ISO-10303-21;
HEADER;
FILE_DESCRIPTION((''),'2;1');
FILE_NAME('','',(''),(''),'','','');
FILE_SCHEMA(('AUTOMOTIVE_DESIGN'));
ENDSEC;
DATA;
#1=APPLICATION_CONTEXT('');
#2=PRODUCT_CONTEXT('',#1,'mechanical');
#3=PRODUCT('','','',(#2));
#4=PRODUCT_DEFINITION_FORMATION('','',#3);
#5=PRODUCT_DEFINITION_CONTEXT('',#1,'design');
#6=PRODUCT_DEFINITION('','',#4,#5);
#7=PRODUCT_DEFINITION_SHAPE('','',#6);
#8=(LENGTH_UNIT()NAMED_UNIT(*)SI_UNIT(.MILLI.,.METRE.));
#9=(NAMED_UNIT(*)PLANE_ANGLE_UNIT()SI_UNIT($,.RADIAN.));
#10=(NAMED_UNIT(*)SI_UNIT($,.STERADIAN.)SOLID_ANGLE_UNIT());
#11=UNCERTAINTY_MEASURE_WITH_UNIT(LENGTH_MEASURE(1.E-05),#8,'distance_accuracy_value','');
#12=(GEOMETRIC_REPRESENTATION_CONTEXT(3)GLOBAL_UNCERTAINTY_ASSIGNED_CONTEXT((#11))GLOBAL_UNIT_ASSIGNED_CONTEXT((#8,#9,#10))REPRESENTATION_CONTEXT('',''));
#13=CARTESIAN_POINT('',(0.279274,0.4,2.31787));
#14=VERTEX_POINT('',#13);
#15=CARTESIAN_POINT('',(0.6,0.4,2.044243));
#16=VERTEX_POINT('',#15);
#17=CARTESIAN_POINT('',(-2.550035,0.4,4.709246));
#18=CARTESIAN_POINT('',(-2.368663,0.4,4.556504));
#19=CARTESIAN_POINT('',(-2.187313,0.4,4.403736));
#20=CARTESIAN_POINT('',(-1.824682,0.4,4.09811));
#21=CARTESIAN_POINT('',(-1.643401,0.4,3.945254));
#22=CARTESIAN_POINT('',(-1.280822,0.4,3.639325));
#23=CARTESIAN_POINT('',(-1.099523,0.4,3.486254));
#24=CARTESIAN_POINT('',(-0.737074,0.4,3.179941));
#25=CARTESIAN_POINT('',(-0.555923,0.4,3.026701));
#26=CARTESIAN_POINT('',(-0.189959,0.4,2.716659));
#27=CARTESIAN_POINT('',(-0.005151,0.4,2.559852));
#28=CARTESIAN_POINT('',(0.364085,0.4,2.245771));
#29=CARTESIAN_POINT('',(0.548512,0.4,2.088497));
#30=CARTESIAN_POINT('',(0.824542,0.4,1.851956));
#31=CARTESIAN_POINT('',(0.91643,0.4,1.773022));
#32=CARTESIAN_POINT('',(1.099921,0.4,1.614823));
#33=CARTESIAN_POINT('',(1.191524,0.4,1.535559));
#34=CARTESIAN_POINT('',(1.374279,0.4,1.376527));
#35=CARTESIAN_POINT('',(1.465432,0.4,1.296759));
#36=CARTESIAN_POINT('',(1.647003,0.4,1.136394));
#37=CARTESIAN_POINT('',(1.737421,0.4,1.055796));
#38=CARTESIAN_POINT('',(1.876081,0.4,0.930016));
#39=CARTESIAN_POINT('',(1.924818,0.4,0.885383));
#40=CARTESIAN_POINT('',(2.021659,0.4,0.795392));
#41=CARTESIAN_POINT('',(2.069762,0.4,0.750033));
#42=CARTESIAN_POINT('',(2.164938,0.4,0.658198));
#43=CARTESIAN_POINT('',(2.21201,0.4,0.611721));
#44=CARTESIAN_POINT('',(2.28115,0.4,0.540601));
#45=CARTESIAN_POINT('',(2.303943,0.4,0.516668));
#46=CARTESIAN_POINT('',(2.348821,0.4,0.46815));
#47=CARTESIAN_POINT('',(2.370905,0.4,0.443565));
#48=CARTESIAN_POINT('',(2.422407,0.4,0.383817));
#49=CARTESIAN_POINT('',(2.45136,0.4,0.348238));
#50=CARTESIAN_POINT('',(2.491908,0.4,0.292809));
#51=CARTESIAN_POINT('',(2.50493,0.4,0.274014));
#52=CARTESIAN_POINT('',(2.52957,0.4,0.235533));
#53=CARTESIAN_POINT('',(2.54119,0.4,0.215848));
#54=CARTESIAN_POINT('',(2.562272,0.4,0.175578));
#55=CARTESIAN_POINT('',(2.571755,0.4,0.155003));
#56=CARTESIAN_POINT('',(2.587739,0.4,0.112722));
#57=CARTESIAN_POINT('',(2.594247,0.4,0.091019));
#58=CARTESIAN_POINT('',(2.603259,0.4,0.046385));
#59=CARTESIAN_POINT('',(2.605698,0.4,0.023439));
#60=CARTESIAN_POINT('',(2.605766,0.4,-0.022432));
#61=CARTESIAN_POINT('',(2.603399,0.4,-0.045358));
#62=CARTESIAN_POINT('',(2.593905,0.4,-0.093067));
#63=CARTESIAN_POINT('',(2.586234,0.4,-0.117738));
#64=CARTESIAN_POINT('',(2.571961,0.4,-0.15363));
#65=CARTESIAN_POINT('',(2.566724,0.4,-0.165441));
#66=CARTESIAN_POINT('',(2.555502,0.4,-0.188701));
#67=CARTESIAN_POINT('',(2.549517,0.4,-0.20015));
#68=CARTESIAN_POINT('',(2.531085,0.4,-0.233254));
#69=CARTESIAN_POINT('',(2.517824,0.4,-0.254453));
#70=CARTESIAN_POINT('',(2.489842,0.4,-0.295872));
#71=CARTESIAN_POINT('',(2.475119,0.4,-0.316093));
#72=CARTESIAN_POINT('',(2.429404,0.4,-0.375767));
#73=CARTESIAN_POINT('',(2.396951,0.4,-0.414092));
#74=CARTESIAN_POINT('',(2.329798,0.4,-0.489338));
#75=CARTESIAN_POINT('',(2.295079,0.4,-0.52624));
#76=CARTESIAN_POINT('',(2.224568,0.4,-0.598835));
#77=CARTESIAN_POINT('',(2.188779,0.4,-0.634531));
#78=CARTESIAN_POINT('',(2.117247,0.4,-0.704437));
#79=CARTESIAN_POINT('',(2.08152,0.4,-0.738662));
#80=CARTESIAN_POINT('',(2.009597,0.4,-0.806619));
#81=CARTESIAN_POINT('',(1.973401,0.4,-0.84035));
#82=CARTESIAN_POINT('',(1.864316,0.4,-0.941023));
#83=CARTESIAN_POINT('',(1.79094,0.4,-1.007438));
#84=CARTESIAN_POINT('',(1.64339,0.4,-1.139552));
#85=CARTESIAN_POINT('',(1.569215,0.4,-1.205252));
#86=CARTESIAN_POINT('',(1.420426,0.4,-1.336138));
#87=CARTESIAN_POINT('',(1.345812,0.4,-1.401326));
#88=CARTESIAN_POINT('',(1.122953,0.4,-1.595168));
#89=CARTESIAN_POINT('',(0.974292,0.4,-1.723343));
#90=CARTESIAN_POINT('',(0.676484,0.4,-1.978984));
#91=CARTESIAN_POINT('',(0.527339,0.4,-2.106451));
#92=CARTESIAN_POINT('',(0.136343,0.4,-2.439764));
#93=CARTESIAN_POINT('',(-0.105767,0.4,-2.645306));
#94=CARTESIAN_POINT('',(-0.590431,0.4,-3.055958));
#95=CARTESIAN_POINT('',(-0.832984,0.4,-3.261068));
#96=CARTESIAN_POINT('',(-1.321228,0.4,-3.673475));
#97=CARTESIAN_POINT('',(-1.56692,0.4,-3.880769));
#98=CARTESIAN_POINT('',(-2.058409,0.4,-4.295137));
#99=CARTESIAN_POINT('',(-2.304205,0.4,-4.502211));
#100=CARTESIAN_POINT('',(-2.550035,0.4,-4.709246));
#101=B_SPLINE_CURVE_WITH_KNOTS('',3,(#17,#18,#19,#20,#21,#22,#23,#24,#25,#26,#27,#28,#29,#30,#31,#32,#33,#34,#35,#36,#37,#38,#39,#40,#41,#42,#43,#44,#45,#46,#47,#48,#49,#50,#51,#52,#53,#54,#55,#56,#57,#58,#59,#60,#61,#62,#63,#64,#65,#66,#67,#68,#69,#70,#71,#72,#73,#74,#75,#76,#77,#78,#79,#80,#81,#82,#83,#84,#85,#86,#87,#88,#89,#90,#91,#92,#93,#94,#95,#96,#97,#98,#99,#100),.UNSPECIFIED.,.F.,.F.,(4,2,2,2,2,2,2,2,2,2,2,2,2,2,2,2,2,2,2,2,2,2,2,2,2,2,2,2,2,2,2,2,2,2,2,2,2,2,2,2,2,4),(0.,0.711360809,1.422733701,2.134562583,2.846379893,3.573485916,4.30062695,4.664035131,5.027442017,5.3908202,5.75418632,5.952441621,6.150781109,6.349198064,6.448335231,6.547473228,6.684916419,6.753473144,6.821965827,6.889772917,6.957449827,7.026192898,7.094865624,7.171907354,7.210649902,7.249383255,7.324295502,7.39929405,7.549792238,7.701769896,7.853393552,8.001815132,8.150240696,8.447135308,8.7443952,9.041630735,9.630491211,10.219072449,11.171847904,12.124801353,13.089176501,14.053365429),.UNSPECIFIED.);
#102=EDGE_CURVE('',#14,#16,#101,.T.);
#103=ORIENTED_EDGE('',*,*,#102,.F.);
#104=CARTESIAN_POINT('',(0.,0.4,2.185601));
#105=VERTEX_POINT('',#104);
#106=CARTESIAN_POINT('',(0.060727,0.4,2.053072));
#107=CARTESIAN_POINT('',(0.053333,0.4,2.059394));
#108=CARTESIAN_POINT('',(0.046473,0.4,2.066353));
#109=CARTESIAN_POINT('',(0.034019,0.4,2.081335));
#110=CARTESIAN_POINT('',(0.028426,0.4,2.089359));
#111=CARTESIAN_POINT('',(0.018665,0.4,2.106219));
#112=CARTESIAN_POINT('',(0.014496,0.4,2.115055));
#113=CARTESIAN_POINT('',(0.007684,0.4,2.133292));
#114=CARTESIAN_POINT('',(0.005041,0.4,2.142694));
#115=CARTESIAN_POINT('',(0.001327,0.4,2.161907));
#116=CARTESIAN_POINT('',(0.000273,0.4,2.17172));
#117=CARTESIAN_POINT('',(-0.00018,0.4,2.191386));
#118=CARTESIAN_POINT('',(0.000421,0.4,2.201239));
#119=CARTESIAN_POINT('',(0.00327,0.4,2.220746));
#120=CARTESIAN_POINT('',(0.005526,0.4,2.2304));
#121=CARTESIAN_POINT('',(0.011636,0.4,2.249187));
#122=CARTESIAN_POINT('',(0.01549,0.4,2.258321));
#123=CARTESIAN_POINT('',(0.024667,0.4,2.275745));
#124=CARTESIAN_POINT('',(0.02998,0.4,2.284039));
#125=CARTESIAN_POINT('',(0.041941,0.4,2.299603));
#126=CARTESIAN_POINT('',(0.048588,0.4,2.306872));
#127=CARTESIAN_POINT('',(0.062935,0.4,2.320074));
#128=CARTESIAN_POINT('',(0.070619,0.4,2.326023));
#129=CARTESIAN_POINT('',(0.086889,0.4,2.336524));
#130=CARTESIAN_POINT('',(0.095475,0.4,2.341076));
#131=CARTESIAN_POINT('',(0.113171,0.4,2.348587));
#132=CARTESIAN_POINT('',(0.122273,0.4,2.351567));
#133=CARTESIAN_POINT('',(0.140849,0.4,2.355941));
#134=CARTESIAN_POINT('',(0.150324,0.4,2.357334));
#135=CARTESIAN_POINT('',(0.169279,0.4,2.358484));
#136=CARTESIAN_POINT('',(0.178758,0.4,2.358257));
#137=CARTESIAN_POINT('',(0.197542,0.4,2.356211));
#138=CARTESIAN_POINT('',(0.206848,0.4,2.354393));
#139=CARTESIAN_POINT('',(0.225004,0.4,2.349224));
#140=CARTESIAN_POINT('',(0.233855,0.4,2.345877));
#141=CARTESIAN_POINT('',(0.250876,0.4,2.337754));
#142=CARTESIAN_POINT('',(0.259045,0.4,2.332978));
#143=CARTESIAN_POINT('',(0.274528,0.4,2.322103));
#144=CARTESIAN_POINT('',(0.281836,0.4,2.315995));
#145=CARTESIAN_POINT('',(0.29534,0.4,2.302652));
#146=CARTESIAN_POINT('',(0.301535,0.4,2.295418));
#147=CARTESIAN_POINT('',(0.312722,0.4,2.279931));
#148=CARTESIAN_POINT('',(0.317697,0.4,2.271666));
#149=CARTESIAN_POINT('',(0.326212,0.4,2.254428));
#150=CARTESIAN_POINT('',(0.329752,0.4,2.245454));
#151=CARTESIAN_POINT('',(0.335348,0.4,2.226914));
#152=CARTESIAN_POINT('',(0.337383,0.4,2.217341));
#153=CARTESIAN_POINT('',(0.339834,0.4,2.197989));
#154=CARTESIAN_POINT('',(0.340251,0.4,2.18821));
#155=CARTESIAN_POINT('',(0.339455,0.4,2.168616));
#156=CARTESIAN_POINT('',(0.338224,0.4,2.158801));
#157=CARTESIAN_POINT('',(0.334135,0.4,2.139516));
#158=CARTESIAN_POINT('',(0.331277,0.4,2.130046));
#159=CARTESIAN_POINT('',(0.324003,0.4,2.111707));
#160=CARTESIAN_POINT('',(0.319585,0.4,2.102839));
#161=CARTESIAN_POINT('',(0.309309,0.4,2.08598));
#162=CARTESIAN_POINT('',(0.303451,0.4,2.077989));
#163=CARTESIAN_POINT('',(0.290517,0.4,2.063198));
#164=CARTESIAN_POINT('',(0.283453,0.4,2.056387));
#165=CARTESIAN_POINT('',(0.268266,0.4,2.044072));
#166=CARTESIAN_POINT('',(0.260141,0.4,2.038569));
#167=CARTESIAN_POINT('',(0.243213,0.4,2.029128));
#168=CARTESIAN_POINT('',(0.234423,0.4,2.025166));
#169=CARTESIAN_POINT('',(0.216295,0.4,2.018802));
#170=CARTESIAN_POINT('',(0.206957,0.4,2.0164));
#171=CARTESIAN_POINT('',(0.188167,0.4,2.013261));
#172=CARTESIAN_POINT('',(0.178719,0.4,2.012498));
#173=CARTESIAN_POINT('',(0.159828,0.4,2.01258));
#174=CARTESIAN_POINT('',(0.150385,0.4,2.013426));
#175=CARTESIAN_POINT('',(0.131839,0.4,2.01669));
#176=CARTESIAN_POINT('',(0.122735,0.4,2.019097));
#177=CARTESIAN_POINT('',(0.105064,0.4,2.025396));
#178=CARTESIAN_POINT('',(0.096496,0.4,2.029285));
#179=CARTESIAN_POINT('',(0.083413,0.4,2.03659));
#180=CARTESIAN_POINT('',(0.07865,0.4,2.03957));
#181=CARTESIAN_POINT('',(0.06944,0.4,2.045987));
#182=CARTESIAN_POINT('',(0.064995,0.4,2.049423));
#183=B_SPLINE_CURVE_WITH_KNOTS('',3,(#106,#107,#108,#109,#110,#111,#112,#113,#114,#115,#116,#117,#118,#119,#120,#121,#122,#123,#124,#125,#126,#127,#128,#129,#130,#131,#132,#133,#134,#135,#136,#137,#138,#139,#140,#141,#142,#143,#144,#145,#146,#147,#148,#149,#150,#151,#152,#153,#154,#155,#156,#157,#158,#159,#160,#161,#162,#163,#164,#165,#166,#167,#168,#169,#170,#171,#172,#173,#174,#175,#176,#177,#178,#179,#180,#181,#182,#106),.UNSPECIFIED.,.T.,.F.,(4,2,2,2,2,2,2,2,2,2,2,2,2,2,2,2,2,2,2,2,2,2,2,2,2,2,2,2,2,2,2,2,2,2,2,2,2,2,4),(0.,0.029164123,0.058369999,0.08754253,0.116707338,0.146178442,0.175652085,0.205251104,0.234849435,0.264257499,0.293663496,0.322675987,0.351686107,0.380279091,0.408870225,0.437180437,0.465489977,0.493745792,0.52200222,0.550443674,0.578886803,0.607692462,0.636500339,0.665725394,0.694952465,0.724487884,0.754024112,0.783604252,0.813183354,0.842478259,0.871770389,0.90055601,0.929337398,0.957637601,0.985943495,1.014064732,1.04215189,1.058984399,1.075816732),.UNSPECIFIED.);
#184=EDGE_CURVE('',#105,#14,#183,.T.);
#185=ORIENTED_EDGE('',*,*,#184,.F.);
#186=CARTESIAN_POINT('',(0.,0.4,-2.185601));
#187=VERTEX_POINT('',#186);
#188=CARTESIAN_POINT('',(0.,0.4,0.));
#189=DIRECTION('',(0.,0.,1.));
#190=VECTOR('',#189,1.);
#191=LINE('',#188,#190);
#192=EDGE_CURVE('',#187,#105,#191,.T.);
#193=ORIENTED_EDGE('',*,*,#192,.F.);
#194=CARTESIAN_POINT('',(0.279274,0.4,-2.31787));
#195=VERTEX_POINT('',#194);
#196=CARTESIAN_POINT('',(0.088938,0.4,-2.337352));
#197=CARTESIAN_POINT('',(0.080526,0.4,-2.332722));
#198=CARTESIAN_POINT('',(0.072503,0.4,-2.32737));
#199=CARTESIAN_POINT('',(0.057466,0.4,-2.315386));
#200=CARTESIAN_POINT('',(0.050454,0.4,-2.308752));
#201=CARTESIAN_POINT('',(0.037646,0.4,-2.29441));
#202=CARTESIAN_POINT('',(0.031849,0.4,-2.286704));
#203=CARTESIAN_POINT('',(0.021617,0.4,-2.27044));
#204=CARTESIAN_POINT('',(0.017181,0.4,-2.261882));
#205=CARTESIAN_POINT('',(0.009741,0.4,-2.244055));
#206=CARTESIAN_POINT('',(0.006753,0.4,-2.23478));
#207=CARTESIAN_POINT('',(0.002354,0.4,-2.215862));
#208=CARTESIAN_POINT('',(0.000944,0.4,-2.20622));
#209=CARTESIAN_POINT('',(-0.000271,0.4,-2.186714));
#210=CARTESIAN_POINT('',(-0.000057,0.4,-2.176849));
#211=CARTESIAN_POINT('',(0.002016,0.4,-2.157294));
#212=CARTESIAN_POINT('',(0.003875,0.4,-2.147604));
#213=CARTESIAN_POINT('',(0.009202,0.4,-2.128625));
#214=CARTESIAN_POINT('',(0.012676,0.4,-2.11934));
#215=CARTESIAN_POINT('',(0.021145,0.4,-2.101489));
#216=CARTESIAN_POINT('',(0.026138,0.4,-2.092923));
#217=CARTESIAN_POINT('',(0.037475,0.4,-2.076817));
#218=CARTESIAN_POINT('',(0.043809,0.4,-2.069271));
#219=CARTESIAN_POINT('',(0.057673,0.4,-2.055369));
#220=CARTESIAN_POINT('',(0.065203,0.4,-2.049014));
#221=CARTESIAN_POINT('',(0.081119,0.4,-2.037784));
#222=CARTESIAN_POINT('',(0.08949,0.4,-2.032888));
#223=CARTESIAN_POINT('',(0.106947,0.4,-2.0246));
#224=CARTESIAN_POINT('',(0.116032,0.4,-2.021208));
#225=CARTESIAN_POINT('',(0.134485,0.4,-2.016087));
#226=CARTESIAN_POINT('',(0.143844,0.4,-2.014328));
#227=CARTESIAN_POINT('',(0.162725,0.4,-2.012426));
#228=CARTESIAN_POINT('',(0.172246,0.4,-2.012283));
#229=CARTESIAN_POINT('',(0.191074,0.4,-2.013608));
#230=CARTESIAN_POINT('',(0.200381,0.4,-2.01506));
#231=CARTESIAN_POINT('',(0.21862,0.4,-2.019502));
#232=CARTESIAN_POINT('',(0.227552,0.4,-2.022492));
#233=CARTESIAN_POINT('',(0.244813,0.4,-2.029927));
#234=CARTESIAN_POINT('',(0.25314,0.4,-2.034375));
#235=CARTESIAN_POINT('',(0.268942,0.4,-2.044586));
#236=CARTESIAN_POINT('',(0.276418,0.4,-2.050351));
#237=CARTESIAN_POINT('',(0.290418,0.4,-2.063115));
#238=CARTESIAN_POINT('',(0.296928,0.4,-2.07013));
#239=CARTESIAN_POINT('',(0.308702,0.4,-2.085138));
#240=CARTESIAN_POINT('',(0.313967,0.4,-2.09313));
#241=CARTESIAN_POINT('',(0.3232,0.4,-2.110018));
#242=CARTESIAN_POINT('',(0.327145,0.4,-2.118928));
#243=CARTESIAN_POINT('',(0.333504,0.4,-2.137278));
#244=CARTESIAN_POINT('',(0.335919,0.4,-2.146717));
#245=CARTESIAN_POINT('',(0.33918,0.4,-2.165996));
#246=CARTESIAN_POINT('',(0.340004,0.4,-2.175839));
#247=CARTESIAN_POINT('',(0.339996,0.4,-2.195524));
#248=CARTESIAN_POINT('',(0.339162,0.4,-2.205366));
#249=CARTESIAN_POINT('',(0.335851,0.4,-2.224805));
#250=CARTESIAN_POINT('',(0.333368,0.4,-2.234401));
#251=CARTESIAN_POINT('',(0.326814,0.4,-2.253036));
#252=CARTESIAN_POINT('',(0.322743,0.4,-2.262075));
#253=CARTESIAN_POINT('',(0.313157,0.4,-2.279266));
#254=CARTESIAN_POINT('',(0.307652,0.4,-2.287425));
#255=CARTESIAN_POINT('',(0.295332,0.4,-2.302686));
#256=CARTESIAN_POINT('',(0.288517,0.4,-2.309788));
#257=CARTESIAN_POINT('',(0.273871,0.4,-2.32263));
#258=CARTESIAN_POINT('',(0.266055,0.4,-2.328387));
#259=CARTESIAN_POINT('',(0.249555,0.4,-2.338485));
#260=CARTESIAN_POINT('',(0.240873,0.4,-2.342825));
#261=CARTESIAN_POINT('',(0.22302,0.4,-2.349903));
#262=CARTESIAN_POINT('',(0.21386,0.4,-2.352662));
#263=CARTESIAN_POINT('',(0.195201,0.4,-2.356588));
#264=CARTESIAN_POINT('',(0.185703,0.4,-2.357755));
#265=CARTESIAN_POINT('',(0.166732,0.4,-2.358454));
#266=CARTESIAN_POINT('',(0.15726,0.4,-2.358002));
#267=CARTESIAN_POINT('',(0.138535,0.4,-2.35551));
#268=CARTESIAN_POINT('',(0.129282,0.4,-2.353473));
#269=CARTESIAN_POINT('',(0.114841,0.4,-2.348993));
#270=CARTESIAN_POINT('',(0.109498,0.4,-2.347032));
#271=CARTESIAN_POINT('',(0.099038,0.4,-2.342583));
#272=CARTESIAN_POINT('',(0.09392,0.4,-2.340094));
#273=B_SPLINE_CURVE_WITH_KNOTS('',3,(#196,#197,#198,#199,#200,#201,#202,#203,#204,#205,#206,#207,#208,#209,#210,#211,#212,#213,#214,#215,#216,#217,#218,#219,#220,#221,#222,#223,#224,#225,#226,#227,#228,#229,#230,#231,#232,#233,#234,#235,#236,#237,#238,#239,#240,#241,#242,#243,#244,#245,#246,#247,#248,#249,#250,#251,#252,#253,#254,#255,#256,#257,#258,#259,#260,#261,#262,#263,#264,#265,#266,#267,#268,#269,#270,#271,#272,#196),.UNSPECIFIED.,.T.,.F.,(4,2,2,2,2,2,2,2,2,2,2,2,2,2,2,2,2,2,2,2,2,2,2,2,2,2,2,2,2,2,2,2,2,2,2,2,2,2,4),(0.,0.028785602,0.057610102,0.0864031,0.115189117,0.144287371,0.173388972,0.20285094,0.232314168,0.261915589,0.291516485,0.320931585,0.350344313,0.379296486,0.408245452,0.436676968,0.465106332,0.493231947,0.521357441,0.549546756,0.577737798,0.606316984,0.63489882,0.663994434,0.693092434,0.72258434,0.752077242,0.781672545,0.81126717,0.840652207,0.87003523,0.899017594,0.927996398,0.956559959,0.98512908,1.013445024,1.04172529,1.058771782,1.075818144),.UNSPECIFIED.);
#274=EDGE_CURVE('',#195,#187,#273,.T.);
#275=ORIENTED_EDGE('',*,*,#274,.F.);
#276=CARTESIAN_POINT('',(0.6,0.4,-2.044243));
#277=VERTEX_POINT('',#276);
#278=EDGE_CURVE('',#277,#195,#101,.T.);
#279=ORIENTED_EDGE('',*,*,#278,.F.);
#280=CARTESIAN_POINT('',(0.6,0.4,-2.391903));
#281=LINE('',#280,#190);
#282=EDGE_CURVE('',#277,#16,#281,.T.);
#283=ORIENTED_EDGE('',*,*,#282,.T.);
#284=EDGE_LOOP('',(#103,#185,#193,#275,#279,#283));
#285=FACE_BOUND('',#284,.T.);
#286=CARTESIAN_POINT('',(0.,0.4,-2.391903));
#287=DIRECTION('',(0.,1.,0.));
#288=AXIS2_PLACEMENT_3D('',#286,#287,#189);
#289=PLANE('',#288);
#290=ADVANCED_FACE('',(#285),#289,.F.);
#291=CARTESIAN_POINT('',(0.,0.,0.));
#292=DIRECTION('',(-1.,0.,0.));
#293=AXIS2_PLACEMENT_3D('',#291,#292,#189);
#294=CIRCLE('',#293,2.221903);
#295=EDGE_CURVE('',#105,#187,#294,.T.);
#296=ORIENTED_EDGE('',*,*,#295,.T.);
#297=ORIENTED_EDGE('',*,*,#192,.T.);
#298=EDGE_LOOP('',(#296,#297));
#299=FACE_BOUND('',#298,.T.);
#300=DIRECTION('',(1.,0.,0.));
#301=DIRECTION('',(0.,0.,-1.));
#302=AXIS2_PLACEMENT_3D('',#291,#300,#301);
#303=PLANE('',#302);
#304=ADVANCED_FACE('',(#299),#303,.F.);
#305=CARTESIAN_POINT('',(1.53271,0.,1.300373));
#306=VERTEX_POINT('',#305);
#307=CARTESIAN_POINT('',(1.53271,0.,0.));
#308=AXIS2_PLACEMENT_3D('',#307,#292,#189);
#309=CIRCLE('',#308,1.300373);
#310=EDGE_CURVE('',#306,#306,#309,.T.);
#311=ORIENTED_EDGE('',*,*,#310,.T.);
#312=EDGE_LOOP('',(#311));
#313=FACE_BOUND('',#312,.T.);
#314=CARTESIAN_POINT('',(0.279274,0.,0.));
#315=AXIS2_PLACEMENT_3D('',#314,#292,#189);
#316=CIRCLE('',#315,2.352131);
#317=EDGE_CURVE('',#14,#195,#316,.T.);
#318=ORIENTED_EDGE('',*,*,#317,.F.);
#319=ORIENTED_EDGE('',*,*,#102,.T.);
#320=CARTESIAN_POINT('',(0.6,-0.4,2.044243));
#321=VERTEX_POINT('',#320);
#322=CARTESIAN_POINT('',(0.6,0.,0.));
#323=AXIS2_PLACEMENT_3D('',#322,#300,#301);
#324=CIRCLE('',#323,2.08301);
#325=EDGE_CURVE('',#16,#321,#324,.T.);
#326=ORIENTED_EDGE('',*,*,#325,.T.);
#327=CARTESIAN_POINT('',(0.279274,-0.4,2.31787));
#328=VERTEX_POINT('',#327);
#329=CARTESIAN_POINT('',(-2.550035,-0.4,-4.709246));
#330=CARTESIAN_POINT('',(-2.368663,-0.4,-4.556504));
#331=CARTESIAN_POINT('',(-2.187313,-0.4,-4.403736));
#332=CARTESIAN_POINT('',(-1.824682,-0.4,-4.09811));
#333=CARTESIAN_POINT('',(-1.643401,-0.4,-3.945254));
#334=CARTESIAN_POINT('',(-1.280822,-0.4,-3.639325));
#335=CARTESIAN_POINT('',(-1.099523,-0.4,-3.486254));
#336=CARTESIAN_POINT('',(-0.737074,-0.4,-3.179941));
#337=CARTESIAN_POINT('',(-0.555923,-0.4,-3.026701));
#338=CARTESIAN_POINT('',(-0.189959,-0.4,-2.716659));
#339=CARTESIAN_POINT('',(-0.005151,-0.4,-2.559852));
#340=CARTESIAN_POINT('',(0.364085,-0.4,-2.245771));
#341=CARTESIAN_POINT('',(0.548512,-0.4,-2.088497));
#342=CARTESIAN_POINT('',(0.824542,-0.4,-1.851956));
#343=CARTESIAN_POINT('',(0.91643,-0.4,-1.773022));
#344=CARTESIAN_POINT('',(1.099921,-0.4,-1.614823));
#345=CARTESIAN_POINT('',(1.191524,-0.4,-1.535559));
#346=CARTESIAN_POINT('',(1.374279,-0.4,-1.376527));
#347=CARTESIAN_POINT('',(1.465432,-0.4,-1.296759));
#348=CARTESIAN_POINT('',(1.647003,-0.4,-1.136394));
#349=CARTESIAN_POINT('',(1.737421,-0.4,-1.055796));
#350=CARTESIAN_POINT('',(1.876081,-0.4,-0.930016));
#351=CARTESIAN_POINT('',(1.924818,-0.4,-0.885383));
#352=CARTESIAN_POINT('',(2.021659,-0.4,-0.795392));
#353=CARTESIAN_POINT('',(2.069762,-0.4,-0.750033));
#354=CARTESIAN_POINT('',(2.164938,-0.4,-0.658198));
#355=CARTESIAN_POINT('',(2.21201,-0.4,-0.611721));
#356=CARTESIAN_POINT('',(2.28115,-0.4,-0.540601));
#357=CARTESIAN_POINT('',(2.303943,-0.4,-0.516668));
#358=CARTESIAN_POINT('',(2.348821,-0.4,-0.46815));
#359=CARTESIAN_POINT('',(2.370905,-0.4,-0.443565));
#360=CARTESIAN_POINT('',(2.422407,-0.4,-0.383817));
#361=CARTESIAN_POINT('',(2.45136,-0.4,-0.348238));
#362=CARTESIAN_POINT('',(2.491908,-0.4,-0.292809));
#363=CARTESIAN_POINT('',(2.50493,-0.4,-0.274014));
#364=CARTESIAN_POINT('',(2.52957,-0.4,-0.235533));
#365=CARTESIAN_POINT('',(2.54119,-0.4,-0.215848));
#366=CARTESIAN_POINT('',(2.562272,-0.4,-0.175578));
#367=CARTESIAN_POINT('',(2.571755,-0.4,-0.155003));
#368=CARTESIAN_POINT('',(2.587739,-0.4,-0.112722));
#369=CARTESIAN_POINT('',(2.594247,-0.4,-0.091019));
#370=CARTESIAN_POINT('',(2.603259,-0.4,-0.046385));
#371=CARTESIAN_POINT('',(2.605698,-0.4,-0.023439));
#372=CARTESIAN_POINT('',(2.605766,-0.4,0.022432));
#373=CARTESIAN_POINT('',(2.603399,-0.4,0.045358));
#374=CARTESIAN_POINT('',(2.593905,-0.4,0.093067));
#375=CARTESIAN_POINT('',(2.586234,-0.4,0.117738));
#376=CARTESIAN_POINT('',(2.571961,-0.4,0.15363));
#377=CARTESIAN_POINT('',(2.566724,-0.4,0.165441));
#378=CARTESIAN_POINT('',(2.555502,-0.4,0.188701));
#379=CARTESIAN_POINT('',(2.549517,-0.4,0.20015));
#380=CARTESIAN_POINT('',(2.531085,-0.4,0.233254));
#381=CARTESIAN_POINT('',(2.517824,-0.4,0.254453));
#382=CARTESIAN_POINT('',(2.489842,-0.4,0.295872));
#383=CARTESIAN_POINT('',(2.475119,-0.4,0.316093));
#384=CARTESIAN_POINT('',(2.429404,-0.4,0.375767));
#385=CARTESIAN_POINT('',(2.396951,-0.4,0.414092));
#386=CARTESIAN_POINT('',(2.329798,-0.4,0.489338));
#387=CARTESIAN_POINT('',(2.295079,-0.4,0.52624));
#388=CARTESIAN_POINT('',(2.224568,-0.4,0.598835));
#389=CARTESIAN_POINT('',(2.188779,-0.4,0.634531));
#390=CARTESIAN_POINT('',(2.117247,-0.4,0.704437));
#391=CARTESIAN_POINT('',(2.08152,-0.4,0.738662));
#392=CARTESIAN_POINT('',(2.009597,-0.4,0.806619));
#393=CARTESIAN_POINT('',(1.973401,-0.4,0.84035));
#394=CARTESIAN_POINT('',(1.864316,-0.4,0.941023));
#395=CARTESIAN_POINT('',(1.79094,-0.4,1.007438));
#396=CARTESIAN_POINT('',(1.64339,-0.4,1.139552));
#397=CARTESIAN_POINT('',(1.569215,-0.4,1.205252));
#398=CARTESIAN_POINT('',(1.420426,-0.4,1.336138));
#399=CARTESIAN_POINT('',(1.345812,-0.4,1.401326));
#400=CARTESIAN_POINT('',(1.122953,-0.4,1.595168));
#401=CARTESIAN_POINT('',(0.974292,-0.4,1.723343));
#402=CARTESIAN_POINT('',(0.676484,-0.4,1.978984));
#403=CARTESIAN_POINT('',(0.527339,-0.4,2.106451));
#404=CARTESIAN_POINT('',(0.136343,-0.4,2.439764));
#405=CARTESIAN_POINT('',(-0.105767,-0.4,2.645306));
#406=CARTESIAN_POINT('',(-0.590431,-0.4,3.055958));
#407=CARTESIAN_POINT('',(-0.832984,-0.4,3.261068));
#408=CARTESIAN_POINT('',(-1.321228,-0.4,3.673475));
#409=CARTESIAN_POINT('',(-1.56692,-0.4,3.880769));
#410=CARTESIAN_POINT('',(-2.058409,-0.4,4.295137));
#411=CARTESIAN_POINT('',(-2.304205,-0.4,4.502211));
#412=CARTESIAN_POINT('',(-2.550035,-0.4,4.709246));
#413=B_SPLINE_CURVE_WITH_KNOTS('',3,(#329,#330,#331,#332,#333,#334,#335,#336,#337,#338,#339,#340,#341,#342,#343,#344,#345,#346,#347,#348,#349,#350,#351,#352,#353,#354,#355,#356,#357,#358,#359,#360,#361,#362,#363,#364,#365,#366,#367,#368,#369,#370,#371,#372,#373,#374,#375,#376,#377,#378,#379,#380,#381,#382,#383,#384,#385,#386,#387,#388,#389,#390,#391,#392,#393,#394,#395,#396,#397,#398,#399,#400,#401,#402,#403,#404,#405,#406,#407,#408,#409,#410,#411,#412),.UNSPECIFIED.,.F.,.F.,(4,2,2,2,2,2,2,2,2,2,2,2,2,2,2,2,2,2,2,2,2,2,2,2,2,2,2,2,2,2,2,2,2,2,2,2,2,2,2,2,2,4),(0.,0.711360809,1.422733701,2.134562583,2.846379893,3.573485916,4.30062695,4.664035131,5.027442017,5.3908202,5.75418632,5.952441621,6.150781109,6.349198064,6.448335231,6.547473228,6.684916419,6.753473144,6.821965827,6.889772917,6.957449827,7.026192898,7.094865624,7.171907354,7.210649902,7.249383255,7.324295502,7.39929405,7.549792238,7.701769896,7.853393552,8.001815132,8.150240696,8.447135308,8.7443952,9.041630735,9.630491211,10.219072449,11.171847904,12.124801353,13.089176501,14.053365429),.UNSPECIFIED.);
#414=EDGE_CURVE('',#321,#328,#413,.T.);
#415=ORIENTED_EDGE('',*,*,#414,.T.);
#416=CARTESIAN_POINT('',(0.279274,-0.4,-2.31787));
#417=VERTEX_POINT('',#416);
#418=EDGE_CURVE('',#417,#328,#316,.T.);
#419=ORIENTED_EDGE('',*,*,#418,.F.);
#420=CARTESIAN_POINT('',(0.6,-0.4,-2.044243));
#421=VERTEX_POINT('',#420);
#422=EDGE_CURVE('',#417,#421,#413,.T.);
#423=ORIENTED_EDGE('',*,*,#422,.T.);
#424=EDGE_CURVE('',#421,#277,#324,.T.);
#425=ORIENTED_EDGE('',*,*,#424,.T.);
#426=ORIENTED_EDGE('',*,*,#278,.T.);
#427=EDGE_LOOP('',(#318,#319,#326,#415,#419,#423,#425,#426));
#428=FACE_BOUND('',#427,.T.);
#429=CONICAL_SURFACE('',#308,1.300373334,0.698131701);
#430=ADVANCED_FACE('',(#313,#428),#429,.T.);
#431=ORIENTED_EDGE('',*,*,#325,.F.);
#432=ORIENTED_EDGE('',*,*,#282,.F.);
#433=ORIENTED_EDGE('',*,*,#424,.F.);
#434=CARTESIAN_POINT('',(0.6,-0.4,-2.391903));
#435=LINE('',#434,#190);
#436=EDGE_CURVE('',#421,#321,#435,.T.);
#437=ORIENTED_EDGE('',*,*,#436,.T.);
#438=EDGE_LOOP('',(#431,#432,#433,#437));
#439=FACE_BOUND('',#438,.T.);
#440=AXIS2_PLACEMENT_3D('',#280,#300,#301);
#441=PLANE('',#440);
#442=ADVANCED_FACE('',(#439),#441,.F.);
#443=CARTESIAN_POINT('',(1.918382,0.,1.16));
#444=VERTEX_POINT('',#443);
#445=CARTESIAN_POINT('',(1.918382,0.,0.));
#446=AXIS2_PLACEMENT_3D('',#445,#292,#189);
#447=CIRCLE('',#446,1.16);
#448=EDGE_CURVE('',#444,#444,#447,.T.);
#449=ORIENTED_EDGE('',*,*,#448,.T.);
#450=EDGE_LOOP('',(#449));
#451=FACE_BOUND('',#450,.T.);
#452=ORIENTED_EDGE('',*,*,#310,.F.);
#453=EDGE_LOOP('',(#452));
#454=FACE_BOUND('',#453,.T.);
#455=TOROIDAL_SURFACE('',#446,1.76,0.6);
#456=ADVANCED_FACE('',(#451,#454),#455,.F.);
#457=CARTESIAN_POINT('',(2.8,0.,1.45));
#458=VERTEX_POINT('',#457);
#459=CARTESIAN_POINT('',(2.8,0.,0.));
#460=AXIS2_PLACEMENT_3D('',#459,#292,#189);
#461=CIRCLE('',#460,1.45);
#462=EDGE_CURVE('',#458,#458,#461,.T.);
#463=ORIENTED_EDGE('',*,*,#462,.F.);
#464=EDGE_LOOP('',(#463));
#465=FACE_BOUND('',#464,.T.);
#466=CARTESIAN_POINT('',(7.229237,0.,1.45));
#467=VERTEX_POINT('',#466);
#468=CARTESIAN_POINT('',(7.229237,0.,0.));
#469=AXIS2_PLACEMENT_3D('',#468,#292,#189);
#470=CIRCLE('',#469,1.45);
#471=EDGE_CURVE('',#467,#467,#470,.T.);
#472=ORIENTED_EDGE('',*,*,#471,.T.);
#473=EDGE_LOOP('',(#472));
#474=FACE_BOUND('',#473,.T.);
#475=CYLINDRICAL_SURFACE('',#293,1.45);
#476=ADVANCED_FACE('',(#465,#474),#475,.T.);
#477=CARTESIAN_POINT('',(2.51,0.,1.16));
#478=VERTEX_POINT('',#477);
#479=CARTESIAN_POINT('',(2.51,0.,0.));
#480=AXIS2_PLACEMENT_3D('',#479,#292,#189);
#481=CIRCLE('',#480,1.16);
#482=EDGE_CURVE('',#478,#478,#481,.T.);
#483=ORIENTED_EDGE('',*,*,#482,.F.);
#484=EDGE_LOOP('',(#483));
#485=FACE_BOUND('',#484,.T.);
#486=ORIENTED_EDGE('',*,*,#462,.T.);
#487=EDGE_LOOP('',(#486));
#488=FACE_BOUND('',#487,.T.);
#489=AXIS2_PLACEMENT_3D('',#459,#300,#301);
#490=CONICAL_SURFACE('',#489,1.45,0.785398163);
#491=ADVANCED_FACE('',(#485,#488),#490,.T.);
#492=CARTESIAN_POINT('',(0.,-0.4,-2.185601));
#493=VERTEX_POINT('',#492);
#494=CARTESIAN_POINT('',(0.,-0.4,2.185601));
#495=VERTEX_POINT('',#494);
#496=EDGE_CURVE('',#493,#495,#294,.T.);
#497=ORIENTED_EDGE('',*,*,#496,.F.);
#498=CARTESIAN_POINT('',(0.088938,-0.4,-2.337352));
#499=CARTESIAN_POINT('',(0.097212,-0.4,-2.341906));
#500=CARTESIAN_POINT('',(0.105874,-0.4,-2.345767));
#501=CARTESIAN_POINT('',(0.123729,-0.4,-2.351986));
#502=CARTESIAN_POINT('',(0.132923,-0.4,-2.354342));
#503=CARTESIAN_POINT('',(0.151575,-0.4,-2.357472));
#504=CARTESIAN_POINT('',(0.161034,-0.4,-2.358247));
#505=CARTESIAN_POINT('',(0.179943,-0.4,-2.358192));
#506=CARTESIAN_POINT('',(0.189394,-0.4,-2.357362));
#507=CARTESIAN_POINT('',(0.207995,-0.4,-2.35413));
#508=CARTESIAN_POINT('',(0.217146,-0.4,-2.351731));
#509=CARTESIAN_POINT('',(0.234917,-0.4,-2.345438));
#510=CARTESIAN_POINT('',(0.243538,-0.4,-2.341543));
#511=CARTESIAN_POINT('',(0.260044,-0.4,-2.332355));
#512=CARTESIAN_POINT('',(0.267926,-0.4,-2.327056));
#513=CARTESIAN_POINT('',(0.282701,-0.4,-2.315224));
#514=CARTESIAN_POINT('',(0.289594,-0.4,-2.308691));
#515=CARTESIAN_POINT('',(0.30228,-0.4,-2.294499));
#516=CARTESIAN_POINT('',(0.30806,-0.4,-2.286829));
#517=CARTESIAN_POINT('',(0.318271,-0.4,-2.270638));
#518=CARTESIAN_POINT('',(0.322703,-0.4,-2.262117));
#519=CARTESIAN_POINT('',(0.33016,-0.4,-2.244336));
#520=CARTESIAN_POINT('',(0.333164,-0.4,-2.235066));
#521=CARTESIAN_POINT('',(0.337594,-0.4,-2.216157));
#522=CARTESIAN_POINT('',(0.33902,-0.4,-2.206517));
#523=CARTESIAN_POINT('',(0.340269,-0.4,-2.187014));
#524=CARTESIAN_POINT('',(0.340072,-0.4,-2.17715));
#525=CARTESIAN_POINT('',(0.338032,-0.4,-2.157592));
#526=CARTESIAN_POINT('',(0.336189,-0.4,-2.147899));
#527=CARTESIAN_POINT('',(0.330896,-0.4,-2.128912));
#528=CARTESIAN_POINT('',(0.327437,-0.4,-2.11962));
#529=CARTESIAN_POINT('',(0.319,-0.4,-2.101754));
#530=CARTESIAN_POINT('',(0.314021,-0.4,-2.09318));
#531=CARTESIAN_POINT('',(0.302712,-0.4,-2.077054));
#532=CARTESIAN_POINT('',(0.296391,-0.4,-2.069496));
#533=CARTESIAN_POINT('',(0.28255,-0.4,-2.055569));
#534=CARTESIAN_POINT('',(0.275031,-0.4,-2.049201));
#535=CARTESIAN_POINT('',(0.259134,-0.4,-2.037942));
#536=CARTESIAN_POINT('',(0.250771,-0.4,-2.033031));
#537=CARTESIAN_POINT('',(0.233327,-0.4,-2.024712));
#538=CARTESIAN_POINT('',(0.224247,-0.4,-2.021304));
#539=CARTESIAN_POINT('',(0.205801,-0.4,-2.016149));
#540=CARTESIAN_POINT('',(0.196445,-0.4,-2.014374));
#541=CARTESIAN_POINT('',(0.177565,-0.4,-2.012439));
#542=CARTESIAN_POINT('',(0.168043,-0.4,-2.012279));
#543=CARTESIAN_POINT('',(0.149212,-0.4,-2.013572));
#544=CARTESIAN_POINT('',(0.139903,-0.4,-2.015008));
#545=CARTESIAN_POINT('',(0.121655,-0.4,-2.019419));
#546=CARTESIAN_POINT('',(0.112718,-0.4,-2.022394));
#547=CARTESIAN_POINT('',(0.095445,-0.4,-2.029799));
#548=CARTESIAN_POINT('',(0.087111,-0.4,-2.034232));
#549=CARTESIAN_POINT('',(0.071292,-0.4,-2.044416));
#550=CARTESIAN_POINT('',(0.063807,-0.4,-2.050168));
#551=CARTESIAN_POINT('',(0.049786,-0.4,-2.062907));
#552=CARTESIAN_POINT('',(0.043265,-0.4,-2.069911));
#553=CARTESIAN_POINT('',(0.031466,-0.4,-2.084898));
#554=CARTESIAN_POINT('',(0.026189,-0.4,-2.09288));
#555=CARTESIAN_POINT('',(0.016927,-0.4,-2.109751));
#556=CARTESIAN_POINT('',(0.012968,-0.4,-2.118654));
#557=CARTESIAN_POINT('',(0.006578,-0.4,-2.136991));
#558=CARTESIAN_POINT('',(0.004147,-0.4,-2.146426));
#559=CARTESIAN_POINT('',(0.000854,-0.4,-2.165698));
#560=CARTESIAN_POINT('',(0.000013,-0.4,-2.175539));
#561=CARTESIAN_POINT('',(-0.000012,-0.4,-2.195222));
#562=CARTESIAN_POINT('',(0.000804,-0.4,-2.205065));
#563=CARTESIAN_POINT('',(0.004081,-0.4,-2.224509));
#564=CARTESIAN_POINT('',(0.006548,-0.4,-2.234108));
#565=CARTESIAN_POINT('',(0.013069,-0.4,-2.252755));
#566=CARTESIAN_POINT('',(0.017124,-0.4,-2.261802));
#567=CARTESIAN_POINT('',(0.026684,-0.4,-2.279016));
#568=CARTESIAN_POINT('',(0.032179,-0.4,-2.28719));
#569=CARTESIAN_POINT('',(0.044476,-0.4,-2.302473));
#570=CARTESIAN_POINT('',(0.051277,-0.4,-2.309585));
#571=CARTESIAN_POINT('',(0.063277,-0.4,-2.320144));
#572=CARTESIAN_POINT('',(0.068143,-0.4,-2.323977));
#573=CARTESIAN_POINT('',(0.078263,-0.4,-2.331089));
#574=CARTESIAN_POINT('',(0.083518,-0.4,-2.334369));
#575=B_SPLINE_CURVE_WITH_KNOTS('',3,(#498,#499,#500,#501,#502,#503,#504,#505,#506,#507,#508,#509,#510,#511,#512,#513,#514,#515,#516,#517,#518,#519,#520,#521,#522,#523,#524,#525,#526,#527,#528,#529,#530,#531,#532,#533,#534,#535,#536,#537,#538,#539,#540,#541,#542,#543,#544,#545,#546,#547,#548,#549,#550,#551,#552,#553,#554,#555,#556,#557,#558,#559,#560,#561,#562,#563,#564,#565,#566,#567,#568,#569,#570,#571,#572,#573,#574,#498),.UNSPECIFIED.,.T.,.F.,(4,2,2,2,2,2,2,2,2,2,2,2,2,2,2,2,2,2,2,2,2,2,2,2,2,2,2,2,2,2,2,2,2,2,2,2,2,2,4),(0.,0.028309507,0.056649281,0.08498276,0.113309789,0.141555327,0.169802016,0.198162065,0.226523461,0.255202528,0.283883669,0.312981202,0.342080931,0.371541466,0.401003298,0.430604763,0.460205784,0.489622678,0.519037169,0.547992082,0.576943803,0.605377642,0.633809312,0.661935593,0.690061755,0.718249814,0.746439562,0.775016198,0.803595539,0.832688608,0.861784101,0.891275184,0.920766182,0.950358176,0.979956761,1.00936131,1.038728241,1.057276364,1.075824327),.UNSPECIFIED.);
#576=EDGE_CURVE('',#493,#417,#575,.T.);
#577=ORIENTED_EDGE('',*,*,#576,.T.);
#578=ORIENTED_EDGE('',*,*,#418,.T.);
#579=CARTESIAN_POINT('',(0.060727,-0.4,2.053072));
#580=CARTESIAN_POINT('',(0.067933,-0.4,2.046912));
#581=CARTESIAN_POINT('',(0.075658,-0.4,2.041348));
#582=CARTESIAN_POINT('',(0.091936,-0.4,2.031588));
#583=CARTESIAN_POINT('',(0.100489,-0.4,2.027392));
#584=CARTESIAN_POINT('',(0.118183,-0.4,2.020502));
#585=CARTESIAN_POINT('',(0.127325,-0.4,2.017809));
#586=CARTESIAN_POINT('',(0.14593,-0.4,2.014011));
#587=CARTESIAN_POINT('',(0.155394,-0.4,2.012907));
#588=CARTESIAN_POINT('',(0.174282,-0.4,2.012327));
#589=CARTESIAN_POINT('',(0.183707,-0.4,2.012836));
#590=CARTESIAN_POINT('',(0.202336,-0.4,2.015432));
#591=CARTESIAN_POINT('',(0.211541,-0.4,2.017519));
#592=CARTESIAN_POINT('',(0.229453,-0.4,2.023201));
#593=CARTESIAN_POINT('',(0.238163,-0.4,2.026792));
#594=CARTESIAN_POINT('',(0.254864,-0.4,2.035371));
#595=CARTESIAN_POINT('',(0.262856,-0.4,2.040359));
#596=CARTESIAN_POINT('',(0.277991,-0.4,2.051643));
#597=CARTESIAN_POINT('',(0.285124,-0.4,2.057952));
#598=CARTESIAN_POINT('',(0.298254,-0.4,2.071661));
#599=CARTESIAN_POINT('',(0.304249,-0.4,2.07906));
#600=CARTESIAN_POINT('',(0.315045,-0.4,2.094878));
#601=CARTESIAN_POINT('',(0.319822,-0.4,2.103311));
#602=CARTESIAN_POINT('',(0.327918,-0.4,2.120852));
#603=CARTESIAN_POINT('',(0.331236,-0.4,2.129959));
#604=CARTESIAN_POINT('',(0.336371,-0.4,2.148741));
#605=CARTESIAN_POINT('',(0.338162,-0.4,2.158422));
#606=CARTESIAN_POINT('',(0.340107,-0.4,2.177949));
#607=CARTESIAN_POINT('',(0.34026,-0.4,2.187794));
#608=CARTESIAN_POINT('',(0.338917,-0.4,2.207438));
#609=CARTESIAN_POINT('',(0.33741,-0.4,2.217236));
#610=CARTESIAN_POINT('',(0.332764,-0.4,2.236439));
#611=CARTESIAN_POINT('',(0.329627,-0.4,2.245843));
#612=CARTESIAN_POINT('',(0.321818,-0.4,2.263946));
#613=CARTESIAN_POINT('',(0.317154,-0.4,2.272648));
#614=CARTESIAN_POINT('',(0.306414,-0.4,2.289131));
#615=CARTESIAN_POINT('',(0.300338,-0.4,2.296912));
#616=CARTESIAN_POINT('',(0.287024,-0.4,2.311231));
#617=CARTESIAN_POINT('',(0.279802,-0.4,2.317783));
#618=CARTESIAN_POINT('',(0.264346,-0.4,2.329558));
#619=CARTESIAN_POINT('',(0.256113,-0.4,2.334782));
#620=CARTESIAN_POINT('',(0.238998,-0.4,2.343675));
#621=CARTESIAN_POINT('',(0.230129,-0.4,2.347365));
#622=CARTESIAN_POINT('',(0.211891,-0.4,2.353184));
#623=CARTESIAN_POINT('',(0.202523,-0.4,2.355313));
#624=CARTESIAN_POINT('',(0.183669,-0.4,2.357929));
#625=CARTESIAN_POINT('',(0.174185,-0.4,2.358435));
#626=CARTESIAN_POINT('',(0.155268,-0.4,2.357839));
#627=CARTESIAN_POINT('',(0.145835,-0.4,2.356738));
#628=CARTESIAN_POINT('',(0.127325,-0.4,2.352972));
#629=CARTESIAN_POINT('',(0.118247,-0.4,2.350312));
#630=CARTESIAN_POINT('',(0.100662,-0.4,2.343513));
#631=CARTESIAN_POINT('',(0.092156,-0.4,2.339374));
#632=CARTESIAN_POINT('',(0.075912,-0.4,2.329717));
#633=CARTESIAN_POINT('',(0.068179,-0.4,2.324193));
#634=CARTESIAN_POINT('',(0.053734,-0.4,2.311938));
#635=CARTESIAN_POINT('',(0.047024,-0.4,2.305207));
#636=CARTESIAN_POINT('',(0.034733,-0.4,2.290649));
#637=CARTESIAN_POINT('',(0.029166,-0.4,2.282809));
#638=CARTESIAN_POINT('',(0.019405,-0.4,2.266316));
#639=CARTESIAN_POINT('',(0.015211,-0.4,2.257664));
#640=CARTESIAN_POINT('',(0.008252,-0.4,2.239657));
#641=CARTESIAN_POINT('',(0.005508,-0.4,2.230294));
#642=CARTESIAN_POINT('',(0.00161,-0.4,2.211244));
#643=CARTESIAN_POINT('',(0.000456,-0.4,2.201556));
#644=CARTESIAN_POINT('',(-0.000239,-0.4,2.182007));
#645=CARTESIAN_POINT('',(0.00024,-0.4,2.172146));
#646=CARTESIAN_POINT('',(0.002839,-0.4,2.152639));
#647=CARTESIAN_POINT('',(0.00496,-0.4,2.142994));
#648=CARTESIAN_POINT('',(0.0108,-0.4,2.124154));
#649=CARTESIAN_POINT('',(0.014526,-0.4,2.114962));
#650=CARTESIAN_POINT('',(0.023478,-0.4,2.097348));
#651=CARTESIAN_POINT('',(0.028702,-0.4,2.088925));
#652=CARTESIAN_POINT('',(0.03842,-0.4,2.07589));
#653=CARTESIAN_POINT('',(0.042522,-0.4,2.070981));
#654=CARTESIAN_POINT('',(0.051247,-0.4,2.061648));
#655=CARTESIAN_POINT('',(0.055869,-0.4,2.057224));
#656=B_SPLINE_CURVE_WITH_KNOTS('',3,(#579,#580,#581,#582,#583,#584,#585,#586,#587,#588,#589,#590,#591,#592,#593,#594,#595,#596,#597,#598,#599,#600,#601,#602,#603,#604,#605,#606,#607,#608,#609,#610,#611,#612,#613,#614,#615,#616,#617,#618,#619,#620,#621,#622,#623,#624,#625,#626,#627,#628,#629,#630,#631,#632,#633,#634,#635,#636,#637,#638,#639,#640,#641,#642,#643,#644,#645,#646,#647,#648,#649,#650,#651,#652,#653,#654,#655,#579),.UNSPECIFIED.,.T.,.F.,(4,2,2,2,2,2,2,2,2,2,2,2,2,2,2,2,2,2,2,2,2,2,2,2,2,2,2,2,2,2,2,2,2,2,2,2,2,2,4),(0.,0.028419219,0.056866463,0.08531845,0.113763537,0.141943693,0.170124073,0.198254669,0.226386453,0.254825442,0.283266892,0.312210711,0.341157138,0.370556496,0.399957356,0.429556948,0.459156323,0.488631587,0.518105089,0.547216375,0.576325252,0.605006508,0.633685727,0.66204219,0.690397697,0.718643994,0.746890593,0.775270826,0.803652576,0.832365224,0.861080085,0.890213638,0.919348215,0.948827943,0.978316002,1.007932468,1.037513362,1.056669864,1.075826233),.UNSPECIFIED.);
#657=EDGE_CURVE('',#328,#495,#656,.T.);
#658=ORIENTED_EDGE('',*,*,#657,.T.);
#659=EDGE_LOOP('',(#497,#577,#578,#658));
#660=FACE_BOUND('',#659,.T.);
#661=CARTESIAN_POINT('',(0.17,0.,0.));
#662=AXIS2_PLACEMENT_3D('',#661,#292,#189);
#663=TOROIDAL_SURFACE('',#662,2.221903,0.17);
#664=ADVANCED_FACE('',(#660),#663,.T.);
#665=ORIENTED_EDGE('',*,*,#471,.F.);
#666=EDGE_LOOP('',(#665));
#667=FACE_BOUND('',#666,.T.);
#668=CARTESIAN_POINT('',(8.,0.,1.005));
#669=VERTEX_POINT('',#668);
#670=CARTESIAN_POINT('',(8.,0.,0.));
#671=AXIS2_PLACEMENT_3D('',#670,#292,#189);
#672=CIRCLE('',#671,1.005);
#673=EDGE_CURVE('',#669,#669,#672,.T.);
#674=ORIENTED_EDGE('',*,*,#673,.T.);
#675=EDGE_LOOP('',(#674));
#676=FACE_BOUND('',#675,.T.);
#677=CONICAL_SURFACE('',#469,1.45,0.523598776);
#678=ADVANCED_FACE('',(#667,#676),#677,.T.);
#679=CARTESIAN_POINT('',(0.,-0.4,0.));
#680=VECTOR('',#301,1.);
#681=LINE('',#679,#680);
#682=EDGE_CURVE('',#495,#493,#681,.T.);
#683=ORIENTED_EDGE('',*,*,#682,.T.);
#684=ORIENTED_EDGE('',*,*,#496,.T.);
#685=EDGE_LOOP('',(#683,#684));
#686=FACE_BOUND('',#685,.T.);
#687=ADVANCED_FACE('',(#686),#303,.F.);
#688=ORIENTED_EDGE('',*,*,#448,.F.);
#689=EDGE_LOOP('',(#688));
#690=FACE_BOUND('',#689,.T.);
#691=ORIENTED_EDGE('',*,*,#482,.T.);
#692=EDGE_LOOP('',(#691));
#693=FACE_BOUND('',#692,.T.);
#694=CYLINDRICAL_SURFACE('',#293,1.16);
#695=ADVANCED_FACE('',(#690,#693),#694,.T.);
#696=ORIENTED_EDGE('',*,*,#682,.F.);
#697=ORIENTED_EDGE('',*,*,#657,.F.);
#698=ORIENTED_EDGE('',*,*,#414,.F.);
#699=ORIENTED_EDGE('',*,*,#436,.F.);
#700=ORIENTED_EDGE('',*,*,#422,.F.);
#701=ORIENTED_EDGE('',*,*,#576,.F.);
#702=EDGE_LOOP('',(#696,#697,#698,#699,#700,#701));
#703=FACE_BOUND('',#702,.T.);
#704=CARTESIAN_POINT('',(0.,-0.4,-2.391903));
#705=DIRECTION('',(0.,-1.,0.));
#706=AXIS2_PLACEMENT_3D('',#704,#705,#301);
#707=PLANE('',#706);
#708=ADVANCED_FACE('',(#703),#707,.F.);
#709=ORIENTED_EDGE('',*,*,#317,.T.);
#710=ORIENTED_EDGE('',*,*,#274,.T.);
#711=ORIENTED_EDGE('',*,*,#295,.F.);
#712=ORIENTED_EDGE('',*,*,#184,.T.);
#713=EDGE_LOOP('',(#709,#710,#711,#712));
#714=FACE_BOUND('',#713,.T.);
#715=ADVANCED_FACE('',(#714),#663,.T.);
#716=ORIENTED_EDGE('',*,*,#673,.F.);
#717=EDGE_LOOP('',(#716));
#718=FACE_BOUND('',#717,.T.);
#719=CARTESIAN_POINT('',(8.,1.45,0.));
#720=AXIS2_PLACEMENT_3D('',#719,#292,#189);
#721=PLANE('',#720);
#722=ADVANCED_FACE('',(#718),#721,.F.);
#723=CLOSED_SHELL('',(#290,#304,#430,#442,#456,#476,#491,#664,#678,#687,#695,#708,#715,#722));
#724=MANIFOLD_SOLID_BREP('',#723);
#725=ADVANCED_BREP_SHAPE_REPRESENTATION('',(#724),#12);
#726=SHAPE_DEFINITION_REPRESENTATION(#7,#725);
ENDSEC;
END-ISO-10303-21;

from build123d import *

# Parameters (mm, degrees)
SLOT_CUT_EXTRUDE1_DEPTH      = 9.685758617
SLOT_CUT_EXTRUDE1_DEPTH_BACK = 9.685758617
SKETCH2_W                    = 0.6
SKETCH2_H                    = 0.8


with BuildPart() as part:
    # Sketch1 → base-Revolve (revolve)
    with BuildSketch(Plane.XY, mode=Mode.PRIVATE) as base_revolve_sk:
        with BuildLine():
            Line((0, 0), (0, 2.221903197))
            ThreePointArc((0, 2.221903197), (0.098154896, 2.37597552), (0.279273894, 2.352130752))
            Line((0.279273894, 2.352130752), (1.532709575, 1.300373334))
            ThreePointArc((1.532709575, 1.300373334), (1.713170055, 1.196184428), (1.918382141, 1.16))
            Line((1.918382141, 1.16), (2.51, 1.16))
            Line((2.51, 1.16), (2.8, 1.45))
            Line((2.8, 1.45), (8, 1.45))
            Line((8, 1.45), (8, 0))
            Line((8, 0), (0, 0))
        make_face()
    revolve(base_revolve_sk.sketch.rotate(Axis((0, 0, 0), (1, 0, 0)), 90), axis=Axis((0, 0, 0), (1, 0, 0)))

    # Sketch2 → slot_Cut-Extrude1 (cut, two sides: drawn at the far end of the back side and taken through both)
    with BuildSketch(Plane.XY.offset(-SLOT_CUT_EXTRUDE1_DEPTH_BACK)):
        with Locations((0.3, 0)):
            Rectangle(SKETCH2_W, SKETCH2_H)
    extrude(amount=SLOT_CUT_EXTRUDE1_DEPTH + SLOT_CUT_EXTRUDE1_DEPTH_BACK, mode=Mode.SUBTRACT)

    # Sketch8 → point_Cut-Revolve1 (revolve, cut)
    with BuildSketch(Plane.XY, mode=Mode.PRIVATE) as point_cut_revolve1_sk:
        Polygon((8, 0), (8.508, 0), (8.508, 1.958), (7.229237391, 1.958), (7.229237391, 1.45), (8, 1.005), align=None)
    revolve(point_cut_revolve1_sk.sketch.rotate(Axis((0, 0, 0), (1, 0, 0)), 90), axis=Axis((0, 0, 0), (1, 0, 0)), mode=Mode.SUBTRACT)


solid = part.part
